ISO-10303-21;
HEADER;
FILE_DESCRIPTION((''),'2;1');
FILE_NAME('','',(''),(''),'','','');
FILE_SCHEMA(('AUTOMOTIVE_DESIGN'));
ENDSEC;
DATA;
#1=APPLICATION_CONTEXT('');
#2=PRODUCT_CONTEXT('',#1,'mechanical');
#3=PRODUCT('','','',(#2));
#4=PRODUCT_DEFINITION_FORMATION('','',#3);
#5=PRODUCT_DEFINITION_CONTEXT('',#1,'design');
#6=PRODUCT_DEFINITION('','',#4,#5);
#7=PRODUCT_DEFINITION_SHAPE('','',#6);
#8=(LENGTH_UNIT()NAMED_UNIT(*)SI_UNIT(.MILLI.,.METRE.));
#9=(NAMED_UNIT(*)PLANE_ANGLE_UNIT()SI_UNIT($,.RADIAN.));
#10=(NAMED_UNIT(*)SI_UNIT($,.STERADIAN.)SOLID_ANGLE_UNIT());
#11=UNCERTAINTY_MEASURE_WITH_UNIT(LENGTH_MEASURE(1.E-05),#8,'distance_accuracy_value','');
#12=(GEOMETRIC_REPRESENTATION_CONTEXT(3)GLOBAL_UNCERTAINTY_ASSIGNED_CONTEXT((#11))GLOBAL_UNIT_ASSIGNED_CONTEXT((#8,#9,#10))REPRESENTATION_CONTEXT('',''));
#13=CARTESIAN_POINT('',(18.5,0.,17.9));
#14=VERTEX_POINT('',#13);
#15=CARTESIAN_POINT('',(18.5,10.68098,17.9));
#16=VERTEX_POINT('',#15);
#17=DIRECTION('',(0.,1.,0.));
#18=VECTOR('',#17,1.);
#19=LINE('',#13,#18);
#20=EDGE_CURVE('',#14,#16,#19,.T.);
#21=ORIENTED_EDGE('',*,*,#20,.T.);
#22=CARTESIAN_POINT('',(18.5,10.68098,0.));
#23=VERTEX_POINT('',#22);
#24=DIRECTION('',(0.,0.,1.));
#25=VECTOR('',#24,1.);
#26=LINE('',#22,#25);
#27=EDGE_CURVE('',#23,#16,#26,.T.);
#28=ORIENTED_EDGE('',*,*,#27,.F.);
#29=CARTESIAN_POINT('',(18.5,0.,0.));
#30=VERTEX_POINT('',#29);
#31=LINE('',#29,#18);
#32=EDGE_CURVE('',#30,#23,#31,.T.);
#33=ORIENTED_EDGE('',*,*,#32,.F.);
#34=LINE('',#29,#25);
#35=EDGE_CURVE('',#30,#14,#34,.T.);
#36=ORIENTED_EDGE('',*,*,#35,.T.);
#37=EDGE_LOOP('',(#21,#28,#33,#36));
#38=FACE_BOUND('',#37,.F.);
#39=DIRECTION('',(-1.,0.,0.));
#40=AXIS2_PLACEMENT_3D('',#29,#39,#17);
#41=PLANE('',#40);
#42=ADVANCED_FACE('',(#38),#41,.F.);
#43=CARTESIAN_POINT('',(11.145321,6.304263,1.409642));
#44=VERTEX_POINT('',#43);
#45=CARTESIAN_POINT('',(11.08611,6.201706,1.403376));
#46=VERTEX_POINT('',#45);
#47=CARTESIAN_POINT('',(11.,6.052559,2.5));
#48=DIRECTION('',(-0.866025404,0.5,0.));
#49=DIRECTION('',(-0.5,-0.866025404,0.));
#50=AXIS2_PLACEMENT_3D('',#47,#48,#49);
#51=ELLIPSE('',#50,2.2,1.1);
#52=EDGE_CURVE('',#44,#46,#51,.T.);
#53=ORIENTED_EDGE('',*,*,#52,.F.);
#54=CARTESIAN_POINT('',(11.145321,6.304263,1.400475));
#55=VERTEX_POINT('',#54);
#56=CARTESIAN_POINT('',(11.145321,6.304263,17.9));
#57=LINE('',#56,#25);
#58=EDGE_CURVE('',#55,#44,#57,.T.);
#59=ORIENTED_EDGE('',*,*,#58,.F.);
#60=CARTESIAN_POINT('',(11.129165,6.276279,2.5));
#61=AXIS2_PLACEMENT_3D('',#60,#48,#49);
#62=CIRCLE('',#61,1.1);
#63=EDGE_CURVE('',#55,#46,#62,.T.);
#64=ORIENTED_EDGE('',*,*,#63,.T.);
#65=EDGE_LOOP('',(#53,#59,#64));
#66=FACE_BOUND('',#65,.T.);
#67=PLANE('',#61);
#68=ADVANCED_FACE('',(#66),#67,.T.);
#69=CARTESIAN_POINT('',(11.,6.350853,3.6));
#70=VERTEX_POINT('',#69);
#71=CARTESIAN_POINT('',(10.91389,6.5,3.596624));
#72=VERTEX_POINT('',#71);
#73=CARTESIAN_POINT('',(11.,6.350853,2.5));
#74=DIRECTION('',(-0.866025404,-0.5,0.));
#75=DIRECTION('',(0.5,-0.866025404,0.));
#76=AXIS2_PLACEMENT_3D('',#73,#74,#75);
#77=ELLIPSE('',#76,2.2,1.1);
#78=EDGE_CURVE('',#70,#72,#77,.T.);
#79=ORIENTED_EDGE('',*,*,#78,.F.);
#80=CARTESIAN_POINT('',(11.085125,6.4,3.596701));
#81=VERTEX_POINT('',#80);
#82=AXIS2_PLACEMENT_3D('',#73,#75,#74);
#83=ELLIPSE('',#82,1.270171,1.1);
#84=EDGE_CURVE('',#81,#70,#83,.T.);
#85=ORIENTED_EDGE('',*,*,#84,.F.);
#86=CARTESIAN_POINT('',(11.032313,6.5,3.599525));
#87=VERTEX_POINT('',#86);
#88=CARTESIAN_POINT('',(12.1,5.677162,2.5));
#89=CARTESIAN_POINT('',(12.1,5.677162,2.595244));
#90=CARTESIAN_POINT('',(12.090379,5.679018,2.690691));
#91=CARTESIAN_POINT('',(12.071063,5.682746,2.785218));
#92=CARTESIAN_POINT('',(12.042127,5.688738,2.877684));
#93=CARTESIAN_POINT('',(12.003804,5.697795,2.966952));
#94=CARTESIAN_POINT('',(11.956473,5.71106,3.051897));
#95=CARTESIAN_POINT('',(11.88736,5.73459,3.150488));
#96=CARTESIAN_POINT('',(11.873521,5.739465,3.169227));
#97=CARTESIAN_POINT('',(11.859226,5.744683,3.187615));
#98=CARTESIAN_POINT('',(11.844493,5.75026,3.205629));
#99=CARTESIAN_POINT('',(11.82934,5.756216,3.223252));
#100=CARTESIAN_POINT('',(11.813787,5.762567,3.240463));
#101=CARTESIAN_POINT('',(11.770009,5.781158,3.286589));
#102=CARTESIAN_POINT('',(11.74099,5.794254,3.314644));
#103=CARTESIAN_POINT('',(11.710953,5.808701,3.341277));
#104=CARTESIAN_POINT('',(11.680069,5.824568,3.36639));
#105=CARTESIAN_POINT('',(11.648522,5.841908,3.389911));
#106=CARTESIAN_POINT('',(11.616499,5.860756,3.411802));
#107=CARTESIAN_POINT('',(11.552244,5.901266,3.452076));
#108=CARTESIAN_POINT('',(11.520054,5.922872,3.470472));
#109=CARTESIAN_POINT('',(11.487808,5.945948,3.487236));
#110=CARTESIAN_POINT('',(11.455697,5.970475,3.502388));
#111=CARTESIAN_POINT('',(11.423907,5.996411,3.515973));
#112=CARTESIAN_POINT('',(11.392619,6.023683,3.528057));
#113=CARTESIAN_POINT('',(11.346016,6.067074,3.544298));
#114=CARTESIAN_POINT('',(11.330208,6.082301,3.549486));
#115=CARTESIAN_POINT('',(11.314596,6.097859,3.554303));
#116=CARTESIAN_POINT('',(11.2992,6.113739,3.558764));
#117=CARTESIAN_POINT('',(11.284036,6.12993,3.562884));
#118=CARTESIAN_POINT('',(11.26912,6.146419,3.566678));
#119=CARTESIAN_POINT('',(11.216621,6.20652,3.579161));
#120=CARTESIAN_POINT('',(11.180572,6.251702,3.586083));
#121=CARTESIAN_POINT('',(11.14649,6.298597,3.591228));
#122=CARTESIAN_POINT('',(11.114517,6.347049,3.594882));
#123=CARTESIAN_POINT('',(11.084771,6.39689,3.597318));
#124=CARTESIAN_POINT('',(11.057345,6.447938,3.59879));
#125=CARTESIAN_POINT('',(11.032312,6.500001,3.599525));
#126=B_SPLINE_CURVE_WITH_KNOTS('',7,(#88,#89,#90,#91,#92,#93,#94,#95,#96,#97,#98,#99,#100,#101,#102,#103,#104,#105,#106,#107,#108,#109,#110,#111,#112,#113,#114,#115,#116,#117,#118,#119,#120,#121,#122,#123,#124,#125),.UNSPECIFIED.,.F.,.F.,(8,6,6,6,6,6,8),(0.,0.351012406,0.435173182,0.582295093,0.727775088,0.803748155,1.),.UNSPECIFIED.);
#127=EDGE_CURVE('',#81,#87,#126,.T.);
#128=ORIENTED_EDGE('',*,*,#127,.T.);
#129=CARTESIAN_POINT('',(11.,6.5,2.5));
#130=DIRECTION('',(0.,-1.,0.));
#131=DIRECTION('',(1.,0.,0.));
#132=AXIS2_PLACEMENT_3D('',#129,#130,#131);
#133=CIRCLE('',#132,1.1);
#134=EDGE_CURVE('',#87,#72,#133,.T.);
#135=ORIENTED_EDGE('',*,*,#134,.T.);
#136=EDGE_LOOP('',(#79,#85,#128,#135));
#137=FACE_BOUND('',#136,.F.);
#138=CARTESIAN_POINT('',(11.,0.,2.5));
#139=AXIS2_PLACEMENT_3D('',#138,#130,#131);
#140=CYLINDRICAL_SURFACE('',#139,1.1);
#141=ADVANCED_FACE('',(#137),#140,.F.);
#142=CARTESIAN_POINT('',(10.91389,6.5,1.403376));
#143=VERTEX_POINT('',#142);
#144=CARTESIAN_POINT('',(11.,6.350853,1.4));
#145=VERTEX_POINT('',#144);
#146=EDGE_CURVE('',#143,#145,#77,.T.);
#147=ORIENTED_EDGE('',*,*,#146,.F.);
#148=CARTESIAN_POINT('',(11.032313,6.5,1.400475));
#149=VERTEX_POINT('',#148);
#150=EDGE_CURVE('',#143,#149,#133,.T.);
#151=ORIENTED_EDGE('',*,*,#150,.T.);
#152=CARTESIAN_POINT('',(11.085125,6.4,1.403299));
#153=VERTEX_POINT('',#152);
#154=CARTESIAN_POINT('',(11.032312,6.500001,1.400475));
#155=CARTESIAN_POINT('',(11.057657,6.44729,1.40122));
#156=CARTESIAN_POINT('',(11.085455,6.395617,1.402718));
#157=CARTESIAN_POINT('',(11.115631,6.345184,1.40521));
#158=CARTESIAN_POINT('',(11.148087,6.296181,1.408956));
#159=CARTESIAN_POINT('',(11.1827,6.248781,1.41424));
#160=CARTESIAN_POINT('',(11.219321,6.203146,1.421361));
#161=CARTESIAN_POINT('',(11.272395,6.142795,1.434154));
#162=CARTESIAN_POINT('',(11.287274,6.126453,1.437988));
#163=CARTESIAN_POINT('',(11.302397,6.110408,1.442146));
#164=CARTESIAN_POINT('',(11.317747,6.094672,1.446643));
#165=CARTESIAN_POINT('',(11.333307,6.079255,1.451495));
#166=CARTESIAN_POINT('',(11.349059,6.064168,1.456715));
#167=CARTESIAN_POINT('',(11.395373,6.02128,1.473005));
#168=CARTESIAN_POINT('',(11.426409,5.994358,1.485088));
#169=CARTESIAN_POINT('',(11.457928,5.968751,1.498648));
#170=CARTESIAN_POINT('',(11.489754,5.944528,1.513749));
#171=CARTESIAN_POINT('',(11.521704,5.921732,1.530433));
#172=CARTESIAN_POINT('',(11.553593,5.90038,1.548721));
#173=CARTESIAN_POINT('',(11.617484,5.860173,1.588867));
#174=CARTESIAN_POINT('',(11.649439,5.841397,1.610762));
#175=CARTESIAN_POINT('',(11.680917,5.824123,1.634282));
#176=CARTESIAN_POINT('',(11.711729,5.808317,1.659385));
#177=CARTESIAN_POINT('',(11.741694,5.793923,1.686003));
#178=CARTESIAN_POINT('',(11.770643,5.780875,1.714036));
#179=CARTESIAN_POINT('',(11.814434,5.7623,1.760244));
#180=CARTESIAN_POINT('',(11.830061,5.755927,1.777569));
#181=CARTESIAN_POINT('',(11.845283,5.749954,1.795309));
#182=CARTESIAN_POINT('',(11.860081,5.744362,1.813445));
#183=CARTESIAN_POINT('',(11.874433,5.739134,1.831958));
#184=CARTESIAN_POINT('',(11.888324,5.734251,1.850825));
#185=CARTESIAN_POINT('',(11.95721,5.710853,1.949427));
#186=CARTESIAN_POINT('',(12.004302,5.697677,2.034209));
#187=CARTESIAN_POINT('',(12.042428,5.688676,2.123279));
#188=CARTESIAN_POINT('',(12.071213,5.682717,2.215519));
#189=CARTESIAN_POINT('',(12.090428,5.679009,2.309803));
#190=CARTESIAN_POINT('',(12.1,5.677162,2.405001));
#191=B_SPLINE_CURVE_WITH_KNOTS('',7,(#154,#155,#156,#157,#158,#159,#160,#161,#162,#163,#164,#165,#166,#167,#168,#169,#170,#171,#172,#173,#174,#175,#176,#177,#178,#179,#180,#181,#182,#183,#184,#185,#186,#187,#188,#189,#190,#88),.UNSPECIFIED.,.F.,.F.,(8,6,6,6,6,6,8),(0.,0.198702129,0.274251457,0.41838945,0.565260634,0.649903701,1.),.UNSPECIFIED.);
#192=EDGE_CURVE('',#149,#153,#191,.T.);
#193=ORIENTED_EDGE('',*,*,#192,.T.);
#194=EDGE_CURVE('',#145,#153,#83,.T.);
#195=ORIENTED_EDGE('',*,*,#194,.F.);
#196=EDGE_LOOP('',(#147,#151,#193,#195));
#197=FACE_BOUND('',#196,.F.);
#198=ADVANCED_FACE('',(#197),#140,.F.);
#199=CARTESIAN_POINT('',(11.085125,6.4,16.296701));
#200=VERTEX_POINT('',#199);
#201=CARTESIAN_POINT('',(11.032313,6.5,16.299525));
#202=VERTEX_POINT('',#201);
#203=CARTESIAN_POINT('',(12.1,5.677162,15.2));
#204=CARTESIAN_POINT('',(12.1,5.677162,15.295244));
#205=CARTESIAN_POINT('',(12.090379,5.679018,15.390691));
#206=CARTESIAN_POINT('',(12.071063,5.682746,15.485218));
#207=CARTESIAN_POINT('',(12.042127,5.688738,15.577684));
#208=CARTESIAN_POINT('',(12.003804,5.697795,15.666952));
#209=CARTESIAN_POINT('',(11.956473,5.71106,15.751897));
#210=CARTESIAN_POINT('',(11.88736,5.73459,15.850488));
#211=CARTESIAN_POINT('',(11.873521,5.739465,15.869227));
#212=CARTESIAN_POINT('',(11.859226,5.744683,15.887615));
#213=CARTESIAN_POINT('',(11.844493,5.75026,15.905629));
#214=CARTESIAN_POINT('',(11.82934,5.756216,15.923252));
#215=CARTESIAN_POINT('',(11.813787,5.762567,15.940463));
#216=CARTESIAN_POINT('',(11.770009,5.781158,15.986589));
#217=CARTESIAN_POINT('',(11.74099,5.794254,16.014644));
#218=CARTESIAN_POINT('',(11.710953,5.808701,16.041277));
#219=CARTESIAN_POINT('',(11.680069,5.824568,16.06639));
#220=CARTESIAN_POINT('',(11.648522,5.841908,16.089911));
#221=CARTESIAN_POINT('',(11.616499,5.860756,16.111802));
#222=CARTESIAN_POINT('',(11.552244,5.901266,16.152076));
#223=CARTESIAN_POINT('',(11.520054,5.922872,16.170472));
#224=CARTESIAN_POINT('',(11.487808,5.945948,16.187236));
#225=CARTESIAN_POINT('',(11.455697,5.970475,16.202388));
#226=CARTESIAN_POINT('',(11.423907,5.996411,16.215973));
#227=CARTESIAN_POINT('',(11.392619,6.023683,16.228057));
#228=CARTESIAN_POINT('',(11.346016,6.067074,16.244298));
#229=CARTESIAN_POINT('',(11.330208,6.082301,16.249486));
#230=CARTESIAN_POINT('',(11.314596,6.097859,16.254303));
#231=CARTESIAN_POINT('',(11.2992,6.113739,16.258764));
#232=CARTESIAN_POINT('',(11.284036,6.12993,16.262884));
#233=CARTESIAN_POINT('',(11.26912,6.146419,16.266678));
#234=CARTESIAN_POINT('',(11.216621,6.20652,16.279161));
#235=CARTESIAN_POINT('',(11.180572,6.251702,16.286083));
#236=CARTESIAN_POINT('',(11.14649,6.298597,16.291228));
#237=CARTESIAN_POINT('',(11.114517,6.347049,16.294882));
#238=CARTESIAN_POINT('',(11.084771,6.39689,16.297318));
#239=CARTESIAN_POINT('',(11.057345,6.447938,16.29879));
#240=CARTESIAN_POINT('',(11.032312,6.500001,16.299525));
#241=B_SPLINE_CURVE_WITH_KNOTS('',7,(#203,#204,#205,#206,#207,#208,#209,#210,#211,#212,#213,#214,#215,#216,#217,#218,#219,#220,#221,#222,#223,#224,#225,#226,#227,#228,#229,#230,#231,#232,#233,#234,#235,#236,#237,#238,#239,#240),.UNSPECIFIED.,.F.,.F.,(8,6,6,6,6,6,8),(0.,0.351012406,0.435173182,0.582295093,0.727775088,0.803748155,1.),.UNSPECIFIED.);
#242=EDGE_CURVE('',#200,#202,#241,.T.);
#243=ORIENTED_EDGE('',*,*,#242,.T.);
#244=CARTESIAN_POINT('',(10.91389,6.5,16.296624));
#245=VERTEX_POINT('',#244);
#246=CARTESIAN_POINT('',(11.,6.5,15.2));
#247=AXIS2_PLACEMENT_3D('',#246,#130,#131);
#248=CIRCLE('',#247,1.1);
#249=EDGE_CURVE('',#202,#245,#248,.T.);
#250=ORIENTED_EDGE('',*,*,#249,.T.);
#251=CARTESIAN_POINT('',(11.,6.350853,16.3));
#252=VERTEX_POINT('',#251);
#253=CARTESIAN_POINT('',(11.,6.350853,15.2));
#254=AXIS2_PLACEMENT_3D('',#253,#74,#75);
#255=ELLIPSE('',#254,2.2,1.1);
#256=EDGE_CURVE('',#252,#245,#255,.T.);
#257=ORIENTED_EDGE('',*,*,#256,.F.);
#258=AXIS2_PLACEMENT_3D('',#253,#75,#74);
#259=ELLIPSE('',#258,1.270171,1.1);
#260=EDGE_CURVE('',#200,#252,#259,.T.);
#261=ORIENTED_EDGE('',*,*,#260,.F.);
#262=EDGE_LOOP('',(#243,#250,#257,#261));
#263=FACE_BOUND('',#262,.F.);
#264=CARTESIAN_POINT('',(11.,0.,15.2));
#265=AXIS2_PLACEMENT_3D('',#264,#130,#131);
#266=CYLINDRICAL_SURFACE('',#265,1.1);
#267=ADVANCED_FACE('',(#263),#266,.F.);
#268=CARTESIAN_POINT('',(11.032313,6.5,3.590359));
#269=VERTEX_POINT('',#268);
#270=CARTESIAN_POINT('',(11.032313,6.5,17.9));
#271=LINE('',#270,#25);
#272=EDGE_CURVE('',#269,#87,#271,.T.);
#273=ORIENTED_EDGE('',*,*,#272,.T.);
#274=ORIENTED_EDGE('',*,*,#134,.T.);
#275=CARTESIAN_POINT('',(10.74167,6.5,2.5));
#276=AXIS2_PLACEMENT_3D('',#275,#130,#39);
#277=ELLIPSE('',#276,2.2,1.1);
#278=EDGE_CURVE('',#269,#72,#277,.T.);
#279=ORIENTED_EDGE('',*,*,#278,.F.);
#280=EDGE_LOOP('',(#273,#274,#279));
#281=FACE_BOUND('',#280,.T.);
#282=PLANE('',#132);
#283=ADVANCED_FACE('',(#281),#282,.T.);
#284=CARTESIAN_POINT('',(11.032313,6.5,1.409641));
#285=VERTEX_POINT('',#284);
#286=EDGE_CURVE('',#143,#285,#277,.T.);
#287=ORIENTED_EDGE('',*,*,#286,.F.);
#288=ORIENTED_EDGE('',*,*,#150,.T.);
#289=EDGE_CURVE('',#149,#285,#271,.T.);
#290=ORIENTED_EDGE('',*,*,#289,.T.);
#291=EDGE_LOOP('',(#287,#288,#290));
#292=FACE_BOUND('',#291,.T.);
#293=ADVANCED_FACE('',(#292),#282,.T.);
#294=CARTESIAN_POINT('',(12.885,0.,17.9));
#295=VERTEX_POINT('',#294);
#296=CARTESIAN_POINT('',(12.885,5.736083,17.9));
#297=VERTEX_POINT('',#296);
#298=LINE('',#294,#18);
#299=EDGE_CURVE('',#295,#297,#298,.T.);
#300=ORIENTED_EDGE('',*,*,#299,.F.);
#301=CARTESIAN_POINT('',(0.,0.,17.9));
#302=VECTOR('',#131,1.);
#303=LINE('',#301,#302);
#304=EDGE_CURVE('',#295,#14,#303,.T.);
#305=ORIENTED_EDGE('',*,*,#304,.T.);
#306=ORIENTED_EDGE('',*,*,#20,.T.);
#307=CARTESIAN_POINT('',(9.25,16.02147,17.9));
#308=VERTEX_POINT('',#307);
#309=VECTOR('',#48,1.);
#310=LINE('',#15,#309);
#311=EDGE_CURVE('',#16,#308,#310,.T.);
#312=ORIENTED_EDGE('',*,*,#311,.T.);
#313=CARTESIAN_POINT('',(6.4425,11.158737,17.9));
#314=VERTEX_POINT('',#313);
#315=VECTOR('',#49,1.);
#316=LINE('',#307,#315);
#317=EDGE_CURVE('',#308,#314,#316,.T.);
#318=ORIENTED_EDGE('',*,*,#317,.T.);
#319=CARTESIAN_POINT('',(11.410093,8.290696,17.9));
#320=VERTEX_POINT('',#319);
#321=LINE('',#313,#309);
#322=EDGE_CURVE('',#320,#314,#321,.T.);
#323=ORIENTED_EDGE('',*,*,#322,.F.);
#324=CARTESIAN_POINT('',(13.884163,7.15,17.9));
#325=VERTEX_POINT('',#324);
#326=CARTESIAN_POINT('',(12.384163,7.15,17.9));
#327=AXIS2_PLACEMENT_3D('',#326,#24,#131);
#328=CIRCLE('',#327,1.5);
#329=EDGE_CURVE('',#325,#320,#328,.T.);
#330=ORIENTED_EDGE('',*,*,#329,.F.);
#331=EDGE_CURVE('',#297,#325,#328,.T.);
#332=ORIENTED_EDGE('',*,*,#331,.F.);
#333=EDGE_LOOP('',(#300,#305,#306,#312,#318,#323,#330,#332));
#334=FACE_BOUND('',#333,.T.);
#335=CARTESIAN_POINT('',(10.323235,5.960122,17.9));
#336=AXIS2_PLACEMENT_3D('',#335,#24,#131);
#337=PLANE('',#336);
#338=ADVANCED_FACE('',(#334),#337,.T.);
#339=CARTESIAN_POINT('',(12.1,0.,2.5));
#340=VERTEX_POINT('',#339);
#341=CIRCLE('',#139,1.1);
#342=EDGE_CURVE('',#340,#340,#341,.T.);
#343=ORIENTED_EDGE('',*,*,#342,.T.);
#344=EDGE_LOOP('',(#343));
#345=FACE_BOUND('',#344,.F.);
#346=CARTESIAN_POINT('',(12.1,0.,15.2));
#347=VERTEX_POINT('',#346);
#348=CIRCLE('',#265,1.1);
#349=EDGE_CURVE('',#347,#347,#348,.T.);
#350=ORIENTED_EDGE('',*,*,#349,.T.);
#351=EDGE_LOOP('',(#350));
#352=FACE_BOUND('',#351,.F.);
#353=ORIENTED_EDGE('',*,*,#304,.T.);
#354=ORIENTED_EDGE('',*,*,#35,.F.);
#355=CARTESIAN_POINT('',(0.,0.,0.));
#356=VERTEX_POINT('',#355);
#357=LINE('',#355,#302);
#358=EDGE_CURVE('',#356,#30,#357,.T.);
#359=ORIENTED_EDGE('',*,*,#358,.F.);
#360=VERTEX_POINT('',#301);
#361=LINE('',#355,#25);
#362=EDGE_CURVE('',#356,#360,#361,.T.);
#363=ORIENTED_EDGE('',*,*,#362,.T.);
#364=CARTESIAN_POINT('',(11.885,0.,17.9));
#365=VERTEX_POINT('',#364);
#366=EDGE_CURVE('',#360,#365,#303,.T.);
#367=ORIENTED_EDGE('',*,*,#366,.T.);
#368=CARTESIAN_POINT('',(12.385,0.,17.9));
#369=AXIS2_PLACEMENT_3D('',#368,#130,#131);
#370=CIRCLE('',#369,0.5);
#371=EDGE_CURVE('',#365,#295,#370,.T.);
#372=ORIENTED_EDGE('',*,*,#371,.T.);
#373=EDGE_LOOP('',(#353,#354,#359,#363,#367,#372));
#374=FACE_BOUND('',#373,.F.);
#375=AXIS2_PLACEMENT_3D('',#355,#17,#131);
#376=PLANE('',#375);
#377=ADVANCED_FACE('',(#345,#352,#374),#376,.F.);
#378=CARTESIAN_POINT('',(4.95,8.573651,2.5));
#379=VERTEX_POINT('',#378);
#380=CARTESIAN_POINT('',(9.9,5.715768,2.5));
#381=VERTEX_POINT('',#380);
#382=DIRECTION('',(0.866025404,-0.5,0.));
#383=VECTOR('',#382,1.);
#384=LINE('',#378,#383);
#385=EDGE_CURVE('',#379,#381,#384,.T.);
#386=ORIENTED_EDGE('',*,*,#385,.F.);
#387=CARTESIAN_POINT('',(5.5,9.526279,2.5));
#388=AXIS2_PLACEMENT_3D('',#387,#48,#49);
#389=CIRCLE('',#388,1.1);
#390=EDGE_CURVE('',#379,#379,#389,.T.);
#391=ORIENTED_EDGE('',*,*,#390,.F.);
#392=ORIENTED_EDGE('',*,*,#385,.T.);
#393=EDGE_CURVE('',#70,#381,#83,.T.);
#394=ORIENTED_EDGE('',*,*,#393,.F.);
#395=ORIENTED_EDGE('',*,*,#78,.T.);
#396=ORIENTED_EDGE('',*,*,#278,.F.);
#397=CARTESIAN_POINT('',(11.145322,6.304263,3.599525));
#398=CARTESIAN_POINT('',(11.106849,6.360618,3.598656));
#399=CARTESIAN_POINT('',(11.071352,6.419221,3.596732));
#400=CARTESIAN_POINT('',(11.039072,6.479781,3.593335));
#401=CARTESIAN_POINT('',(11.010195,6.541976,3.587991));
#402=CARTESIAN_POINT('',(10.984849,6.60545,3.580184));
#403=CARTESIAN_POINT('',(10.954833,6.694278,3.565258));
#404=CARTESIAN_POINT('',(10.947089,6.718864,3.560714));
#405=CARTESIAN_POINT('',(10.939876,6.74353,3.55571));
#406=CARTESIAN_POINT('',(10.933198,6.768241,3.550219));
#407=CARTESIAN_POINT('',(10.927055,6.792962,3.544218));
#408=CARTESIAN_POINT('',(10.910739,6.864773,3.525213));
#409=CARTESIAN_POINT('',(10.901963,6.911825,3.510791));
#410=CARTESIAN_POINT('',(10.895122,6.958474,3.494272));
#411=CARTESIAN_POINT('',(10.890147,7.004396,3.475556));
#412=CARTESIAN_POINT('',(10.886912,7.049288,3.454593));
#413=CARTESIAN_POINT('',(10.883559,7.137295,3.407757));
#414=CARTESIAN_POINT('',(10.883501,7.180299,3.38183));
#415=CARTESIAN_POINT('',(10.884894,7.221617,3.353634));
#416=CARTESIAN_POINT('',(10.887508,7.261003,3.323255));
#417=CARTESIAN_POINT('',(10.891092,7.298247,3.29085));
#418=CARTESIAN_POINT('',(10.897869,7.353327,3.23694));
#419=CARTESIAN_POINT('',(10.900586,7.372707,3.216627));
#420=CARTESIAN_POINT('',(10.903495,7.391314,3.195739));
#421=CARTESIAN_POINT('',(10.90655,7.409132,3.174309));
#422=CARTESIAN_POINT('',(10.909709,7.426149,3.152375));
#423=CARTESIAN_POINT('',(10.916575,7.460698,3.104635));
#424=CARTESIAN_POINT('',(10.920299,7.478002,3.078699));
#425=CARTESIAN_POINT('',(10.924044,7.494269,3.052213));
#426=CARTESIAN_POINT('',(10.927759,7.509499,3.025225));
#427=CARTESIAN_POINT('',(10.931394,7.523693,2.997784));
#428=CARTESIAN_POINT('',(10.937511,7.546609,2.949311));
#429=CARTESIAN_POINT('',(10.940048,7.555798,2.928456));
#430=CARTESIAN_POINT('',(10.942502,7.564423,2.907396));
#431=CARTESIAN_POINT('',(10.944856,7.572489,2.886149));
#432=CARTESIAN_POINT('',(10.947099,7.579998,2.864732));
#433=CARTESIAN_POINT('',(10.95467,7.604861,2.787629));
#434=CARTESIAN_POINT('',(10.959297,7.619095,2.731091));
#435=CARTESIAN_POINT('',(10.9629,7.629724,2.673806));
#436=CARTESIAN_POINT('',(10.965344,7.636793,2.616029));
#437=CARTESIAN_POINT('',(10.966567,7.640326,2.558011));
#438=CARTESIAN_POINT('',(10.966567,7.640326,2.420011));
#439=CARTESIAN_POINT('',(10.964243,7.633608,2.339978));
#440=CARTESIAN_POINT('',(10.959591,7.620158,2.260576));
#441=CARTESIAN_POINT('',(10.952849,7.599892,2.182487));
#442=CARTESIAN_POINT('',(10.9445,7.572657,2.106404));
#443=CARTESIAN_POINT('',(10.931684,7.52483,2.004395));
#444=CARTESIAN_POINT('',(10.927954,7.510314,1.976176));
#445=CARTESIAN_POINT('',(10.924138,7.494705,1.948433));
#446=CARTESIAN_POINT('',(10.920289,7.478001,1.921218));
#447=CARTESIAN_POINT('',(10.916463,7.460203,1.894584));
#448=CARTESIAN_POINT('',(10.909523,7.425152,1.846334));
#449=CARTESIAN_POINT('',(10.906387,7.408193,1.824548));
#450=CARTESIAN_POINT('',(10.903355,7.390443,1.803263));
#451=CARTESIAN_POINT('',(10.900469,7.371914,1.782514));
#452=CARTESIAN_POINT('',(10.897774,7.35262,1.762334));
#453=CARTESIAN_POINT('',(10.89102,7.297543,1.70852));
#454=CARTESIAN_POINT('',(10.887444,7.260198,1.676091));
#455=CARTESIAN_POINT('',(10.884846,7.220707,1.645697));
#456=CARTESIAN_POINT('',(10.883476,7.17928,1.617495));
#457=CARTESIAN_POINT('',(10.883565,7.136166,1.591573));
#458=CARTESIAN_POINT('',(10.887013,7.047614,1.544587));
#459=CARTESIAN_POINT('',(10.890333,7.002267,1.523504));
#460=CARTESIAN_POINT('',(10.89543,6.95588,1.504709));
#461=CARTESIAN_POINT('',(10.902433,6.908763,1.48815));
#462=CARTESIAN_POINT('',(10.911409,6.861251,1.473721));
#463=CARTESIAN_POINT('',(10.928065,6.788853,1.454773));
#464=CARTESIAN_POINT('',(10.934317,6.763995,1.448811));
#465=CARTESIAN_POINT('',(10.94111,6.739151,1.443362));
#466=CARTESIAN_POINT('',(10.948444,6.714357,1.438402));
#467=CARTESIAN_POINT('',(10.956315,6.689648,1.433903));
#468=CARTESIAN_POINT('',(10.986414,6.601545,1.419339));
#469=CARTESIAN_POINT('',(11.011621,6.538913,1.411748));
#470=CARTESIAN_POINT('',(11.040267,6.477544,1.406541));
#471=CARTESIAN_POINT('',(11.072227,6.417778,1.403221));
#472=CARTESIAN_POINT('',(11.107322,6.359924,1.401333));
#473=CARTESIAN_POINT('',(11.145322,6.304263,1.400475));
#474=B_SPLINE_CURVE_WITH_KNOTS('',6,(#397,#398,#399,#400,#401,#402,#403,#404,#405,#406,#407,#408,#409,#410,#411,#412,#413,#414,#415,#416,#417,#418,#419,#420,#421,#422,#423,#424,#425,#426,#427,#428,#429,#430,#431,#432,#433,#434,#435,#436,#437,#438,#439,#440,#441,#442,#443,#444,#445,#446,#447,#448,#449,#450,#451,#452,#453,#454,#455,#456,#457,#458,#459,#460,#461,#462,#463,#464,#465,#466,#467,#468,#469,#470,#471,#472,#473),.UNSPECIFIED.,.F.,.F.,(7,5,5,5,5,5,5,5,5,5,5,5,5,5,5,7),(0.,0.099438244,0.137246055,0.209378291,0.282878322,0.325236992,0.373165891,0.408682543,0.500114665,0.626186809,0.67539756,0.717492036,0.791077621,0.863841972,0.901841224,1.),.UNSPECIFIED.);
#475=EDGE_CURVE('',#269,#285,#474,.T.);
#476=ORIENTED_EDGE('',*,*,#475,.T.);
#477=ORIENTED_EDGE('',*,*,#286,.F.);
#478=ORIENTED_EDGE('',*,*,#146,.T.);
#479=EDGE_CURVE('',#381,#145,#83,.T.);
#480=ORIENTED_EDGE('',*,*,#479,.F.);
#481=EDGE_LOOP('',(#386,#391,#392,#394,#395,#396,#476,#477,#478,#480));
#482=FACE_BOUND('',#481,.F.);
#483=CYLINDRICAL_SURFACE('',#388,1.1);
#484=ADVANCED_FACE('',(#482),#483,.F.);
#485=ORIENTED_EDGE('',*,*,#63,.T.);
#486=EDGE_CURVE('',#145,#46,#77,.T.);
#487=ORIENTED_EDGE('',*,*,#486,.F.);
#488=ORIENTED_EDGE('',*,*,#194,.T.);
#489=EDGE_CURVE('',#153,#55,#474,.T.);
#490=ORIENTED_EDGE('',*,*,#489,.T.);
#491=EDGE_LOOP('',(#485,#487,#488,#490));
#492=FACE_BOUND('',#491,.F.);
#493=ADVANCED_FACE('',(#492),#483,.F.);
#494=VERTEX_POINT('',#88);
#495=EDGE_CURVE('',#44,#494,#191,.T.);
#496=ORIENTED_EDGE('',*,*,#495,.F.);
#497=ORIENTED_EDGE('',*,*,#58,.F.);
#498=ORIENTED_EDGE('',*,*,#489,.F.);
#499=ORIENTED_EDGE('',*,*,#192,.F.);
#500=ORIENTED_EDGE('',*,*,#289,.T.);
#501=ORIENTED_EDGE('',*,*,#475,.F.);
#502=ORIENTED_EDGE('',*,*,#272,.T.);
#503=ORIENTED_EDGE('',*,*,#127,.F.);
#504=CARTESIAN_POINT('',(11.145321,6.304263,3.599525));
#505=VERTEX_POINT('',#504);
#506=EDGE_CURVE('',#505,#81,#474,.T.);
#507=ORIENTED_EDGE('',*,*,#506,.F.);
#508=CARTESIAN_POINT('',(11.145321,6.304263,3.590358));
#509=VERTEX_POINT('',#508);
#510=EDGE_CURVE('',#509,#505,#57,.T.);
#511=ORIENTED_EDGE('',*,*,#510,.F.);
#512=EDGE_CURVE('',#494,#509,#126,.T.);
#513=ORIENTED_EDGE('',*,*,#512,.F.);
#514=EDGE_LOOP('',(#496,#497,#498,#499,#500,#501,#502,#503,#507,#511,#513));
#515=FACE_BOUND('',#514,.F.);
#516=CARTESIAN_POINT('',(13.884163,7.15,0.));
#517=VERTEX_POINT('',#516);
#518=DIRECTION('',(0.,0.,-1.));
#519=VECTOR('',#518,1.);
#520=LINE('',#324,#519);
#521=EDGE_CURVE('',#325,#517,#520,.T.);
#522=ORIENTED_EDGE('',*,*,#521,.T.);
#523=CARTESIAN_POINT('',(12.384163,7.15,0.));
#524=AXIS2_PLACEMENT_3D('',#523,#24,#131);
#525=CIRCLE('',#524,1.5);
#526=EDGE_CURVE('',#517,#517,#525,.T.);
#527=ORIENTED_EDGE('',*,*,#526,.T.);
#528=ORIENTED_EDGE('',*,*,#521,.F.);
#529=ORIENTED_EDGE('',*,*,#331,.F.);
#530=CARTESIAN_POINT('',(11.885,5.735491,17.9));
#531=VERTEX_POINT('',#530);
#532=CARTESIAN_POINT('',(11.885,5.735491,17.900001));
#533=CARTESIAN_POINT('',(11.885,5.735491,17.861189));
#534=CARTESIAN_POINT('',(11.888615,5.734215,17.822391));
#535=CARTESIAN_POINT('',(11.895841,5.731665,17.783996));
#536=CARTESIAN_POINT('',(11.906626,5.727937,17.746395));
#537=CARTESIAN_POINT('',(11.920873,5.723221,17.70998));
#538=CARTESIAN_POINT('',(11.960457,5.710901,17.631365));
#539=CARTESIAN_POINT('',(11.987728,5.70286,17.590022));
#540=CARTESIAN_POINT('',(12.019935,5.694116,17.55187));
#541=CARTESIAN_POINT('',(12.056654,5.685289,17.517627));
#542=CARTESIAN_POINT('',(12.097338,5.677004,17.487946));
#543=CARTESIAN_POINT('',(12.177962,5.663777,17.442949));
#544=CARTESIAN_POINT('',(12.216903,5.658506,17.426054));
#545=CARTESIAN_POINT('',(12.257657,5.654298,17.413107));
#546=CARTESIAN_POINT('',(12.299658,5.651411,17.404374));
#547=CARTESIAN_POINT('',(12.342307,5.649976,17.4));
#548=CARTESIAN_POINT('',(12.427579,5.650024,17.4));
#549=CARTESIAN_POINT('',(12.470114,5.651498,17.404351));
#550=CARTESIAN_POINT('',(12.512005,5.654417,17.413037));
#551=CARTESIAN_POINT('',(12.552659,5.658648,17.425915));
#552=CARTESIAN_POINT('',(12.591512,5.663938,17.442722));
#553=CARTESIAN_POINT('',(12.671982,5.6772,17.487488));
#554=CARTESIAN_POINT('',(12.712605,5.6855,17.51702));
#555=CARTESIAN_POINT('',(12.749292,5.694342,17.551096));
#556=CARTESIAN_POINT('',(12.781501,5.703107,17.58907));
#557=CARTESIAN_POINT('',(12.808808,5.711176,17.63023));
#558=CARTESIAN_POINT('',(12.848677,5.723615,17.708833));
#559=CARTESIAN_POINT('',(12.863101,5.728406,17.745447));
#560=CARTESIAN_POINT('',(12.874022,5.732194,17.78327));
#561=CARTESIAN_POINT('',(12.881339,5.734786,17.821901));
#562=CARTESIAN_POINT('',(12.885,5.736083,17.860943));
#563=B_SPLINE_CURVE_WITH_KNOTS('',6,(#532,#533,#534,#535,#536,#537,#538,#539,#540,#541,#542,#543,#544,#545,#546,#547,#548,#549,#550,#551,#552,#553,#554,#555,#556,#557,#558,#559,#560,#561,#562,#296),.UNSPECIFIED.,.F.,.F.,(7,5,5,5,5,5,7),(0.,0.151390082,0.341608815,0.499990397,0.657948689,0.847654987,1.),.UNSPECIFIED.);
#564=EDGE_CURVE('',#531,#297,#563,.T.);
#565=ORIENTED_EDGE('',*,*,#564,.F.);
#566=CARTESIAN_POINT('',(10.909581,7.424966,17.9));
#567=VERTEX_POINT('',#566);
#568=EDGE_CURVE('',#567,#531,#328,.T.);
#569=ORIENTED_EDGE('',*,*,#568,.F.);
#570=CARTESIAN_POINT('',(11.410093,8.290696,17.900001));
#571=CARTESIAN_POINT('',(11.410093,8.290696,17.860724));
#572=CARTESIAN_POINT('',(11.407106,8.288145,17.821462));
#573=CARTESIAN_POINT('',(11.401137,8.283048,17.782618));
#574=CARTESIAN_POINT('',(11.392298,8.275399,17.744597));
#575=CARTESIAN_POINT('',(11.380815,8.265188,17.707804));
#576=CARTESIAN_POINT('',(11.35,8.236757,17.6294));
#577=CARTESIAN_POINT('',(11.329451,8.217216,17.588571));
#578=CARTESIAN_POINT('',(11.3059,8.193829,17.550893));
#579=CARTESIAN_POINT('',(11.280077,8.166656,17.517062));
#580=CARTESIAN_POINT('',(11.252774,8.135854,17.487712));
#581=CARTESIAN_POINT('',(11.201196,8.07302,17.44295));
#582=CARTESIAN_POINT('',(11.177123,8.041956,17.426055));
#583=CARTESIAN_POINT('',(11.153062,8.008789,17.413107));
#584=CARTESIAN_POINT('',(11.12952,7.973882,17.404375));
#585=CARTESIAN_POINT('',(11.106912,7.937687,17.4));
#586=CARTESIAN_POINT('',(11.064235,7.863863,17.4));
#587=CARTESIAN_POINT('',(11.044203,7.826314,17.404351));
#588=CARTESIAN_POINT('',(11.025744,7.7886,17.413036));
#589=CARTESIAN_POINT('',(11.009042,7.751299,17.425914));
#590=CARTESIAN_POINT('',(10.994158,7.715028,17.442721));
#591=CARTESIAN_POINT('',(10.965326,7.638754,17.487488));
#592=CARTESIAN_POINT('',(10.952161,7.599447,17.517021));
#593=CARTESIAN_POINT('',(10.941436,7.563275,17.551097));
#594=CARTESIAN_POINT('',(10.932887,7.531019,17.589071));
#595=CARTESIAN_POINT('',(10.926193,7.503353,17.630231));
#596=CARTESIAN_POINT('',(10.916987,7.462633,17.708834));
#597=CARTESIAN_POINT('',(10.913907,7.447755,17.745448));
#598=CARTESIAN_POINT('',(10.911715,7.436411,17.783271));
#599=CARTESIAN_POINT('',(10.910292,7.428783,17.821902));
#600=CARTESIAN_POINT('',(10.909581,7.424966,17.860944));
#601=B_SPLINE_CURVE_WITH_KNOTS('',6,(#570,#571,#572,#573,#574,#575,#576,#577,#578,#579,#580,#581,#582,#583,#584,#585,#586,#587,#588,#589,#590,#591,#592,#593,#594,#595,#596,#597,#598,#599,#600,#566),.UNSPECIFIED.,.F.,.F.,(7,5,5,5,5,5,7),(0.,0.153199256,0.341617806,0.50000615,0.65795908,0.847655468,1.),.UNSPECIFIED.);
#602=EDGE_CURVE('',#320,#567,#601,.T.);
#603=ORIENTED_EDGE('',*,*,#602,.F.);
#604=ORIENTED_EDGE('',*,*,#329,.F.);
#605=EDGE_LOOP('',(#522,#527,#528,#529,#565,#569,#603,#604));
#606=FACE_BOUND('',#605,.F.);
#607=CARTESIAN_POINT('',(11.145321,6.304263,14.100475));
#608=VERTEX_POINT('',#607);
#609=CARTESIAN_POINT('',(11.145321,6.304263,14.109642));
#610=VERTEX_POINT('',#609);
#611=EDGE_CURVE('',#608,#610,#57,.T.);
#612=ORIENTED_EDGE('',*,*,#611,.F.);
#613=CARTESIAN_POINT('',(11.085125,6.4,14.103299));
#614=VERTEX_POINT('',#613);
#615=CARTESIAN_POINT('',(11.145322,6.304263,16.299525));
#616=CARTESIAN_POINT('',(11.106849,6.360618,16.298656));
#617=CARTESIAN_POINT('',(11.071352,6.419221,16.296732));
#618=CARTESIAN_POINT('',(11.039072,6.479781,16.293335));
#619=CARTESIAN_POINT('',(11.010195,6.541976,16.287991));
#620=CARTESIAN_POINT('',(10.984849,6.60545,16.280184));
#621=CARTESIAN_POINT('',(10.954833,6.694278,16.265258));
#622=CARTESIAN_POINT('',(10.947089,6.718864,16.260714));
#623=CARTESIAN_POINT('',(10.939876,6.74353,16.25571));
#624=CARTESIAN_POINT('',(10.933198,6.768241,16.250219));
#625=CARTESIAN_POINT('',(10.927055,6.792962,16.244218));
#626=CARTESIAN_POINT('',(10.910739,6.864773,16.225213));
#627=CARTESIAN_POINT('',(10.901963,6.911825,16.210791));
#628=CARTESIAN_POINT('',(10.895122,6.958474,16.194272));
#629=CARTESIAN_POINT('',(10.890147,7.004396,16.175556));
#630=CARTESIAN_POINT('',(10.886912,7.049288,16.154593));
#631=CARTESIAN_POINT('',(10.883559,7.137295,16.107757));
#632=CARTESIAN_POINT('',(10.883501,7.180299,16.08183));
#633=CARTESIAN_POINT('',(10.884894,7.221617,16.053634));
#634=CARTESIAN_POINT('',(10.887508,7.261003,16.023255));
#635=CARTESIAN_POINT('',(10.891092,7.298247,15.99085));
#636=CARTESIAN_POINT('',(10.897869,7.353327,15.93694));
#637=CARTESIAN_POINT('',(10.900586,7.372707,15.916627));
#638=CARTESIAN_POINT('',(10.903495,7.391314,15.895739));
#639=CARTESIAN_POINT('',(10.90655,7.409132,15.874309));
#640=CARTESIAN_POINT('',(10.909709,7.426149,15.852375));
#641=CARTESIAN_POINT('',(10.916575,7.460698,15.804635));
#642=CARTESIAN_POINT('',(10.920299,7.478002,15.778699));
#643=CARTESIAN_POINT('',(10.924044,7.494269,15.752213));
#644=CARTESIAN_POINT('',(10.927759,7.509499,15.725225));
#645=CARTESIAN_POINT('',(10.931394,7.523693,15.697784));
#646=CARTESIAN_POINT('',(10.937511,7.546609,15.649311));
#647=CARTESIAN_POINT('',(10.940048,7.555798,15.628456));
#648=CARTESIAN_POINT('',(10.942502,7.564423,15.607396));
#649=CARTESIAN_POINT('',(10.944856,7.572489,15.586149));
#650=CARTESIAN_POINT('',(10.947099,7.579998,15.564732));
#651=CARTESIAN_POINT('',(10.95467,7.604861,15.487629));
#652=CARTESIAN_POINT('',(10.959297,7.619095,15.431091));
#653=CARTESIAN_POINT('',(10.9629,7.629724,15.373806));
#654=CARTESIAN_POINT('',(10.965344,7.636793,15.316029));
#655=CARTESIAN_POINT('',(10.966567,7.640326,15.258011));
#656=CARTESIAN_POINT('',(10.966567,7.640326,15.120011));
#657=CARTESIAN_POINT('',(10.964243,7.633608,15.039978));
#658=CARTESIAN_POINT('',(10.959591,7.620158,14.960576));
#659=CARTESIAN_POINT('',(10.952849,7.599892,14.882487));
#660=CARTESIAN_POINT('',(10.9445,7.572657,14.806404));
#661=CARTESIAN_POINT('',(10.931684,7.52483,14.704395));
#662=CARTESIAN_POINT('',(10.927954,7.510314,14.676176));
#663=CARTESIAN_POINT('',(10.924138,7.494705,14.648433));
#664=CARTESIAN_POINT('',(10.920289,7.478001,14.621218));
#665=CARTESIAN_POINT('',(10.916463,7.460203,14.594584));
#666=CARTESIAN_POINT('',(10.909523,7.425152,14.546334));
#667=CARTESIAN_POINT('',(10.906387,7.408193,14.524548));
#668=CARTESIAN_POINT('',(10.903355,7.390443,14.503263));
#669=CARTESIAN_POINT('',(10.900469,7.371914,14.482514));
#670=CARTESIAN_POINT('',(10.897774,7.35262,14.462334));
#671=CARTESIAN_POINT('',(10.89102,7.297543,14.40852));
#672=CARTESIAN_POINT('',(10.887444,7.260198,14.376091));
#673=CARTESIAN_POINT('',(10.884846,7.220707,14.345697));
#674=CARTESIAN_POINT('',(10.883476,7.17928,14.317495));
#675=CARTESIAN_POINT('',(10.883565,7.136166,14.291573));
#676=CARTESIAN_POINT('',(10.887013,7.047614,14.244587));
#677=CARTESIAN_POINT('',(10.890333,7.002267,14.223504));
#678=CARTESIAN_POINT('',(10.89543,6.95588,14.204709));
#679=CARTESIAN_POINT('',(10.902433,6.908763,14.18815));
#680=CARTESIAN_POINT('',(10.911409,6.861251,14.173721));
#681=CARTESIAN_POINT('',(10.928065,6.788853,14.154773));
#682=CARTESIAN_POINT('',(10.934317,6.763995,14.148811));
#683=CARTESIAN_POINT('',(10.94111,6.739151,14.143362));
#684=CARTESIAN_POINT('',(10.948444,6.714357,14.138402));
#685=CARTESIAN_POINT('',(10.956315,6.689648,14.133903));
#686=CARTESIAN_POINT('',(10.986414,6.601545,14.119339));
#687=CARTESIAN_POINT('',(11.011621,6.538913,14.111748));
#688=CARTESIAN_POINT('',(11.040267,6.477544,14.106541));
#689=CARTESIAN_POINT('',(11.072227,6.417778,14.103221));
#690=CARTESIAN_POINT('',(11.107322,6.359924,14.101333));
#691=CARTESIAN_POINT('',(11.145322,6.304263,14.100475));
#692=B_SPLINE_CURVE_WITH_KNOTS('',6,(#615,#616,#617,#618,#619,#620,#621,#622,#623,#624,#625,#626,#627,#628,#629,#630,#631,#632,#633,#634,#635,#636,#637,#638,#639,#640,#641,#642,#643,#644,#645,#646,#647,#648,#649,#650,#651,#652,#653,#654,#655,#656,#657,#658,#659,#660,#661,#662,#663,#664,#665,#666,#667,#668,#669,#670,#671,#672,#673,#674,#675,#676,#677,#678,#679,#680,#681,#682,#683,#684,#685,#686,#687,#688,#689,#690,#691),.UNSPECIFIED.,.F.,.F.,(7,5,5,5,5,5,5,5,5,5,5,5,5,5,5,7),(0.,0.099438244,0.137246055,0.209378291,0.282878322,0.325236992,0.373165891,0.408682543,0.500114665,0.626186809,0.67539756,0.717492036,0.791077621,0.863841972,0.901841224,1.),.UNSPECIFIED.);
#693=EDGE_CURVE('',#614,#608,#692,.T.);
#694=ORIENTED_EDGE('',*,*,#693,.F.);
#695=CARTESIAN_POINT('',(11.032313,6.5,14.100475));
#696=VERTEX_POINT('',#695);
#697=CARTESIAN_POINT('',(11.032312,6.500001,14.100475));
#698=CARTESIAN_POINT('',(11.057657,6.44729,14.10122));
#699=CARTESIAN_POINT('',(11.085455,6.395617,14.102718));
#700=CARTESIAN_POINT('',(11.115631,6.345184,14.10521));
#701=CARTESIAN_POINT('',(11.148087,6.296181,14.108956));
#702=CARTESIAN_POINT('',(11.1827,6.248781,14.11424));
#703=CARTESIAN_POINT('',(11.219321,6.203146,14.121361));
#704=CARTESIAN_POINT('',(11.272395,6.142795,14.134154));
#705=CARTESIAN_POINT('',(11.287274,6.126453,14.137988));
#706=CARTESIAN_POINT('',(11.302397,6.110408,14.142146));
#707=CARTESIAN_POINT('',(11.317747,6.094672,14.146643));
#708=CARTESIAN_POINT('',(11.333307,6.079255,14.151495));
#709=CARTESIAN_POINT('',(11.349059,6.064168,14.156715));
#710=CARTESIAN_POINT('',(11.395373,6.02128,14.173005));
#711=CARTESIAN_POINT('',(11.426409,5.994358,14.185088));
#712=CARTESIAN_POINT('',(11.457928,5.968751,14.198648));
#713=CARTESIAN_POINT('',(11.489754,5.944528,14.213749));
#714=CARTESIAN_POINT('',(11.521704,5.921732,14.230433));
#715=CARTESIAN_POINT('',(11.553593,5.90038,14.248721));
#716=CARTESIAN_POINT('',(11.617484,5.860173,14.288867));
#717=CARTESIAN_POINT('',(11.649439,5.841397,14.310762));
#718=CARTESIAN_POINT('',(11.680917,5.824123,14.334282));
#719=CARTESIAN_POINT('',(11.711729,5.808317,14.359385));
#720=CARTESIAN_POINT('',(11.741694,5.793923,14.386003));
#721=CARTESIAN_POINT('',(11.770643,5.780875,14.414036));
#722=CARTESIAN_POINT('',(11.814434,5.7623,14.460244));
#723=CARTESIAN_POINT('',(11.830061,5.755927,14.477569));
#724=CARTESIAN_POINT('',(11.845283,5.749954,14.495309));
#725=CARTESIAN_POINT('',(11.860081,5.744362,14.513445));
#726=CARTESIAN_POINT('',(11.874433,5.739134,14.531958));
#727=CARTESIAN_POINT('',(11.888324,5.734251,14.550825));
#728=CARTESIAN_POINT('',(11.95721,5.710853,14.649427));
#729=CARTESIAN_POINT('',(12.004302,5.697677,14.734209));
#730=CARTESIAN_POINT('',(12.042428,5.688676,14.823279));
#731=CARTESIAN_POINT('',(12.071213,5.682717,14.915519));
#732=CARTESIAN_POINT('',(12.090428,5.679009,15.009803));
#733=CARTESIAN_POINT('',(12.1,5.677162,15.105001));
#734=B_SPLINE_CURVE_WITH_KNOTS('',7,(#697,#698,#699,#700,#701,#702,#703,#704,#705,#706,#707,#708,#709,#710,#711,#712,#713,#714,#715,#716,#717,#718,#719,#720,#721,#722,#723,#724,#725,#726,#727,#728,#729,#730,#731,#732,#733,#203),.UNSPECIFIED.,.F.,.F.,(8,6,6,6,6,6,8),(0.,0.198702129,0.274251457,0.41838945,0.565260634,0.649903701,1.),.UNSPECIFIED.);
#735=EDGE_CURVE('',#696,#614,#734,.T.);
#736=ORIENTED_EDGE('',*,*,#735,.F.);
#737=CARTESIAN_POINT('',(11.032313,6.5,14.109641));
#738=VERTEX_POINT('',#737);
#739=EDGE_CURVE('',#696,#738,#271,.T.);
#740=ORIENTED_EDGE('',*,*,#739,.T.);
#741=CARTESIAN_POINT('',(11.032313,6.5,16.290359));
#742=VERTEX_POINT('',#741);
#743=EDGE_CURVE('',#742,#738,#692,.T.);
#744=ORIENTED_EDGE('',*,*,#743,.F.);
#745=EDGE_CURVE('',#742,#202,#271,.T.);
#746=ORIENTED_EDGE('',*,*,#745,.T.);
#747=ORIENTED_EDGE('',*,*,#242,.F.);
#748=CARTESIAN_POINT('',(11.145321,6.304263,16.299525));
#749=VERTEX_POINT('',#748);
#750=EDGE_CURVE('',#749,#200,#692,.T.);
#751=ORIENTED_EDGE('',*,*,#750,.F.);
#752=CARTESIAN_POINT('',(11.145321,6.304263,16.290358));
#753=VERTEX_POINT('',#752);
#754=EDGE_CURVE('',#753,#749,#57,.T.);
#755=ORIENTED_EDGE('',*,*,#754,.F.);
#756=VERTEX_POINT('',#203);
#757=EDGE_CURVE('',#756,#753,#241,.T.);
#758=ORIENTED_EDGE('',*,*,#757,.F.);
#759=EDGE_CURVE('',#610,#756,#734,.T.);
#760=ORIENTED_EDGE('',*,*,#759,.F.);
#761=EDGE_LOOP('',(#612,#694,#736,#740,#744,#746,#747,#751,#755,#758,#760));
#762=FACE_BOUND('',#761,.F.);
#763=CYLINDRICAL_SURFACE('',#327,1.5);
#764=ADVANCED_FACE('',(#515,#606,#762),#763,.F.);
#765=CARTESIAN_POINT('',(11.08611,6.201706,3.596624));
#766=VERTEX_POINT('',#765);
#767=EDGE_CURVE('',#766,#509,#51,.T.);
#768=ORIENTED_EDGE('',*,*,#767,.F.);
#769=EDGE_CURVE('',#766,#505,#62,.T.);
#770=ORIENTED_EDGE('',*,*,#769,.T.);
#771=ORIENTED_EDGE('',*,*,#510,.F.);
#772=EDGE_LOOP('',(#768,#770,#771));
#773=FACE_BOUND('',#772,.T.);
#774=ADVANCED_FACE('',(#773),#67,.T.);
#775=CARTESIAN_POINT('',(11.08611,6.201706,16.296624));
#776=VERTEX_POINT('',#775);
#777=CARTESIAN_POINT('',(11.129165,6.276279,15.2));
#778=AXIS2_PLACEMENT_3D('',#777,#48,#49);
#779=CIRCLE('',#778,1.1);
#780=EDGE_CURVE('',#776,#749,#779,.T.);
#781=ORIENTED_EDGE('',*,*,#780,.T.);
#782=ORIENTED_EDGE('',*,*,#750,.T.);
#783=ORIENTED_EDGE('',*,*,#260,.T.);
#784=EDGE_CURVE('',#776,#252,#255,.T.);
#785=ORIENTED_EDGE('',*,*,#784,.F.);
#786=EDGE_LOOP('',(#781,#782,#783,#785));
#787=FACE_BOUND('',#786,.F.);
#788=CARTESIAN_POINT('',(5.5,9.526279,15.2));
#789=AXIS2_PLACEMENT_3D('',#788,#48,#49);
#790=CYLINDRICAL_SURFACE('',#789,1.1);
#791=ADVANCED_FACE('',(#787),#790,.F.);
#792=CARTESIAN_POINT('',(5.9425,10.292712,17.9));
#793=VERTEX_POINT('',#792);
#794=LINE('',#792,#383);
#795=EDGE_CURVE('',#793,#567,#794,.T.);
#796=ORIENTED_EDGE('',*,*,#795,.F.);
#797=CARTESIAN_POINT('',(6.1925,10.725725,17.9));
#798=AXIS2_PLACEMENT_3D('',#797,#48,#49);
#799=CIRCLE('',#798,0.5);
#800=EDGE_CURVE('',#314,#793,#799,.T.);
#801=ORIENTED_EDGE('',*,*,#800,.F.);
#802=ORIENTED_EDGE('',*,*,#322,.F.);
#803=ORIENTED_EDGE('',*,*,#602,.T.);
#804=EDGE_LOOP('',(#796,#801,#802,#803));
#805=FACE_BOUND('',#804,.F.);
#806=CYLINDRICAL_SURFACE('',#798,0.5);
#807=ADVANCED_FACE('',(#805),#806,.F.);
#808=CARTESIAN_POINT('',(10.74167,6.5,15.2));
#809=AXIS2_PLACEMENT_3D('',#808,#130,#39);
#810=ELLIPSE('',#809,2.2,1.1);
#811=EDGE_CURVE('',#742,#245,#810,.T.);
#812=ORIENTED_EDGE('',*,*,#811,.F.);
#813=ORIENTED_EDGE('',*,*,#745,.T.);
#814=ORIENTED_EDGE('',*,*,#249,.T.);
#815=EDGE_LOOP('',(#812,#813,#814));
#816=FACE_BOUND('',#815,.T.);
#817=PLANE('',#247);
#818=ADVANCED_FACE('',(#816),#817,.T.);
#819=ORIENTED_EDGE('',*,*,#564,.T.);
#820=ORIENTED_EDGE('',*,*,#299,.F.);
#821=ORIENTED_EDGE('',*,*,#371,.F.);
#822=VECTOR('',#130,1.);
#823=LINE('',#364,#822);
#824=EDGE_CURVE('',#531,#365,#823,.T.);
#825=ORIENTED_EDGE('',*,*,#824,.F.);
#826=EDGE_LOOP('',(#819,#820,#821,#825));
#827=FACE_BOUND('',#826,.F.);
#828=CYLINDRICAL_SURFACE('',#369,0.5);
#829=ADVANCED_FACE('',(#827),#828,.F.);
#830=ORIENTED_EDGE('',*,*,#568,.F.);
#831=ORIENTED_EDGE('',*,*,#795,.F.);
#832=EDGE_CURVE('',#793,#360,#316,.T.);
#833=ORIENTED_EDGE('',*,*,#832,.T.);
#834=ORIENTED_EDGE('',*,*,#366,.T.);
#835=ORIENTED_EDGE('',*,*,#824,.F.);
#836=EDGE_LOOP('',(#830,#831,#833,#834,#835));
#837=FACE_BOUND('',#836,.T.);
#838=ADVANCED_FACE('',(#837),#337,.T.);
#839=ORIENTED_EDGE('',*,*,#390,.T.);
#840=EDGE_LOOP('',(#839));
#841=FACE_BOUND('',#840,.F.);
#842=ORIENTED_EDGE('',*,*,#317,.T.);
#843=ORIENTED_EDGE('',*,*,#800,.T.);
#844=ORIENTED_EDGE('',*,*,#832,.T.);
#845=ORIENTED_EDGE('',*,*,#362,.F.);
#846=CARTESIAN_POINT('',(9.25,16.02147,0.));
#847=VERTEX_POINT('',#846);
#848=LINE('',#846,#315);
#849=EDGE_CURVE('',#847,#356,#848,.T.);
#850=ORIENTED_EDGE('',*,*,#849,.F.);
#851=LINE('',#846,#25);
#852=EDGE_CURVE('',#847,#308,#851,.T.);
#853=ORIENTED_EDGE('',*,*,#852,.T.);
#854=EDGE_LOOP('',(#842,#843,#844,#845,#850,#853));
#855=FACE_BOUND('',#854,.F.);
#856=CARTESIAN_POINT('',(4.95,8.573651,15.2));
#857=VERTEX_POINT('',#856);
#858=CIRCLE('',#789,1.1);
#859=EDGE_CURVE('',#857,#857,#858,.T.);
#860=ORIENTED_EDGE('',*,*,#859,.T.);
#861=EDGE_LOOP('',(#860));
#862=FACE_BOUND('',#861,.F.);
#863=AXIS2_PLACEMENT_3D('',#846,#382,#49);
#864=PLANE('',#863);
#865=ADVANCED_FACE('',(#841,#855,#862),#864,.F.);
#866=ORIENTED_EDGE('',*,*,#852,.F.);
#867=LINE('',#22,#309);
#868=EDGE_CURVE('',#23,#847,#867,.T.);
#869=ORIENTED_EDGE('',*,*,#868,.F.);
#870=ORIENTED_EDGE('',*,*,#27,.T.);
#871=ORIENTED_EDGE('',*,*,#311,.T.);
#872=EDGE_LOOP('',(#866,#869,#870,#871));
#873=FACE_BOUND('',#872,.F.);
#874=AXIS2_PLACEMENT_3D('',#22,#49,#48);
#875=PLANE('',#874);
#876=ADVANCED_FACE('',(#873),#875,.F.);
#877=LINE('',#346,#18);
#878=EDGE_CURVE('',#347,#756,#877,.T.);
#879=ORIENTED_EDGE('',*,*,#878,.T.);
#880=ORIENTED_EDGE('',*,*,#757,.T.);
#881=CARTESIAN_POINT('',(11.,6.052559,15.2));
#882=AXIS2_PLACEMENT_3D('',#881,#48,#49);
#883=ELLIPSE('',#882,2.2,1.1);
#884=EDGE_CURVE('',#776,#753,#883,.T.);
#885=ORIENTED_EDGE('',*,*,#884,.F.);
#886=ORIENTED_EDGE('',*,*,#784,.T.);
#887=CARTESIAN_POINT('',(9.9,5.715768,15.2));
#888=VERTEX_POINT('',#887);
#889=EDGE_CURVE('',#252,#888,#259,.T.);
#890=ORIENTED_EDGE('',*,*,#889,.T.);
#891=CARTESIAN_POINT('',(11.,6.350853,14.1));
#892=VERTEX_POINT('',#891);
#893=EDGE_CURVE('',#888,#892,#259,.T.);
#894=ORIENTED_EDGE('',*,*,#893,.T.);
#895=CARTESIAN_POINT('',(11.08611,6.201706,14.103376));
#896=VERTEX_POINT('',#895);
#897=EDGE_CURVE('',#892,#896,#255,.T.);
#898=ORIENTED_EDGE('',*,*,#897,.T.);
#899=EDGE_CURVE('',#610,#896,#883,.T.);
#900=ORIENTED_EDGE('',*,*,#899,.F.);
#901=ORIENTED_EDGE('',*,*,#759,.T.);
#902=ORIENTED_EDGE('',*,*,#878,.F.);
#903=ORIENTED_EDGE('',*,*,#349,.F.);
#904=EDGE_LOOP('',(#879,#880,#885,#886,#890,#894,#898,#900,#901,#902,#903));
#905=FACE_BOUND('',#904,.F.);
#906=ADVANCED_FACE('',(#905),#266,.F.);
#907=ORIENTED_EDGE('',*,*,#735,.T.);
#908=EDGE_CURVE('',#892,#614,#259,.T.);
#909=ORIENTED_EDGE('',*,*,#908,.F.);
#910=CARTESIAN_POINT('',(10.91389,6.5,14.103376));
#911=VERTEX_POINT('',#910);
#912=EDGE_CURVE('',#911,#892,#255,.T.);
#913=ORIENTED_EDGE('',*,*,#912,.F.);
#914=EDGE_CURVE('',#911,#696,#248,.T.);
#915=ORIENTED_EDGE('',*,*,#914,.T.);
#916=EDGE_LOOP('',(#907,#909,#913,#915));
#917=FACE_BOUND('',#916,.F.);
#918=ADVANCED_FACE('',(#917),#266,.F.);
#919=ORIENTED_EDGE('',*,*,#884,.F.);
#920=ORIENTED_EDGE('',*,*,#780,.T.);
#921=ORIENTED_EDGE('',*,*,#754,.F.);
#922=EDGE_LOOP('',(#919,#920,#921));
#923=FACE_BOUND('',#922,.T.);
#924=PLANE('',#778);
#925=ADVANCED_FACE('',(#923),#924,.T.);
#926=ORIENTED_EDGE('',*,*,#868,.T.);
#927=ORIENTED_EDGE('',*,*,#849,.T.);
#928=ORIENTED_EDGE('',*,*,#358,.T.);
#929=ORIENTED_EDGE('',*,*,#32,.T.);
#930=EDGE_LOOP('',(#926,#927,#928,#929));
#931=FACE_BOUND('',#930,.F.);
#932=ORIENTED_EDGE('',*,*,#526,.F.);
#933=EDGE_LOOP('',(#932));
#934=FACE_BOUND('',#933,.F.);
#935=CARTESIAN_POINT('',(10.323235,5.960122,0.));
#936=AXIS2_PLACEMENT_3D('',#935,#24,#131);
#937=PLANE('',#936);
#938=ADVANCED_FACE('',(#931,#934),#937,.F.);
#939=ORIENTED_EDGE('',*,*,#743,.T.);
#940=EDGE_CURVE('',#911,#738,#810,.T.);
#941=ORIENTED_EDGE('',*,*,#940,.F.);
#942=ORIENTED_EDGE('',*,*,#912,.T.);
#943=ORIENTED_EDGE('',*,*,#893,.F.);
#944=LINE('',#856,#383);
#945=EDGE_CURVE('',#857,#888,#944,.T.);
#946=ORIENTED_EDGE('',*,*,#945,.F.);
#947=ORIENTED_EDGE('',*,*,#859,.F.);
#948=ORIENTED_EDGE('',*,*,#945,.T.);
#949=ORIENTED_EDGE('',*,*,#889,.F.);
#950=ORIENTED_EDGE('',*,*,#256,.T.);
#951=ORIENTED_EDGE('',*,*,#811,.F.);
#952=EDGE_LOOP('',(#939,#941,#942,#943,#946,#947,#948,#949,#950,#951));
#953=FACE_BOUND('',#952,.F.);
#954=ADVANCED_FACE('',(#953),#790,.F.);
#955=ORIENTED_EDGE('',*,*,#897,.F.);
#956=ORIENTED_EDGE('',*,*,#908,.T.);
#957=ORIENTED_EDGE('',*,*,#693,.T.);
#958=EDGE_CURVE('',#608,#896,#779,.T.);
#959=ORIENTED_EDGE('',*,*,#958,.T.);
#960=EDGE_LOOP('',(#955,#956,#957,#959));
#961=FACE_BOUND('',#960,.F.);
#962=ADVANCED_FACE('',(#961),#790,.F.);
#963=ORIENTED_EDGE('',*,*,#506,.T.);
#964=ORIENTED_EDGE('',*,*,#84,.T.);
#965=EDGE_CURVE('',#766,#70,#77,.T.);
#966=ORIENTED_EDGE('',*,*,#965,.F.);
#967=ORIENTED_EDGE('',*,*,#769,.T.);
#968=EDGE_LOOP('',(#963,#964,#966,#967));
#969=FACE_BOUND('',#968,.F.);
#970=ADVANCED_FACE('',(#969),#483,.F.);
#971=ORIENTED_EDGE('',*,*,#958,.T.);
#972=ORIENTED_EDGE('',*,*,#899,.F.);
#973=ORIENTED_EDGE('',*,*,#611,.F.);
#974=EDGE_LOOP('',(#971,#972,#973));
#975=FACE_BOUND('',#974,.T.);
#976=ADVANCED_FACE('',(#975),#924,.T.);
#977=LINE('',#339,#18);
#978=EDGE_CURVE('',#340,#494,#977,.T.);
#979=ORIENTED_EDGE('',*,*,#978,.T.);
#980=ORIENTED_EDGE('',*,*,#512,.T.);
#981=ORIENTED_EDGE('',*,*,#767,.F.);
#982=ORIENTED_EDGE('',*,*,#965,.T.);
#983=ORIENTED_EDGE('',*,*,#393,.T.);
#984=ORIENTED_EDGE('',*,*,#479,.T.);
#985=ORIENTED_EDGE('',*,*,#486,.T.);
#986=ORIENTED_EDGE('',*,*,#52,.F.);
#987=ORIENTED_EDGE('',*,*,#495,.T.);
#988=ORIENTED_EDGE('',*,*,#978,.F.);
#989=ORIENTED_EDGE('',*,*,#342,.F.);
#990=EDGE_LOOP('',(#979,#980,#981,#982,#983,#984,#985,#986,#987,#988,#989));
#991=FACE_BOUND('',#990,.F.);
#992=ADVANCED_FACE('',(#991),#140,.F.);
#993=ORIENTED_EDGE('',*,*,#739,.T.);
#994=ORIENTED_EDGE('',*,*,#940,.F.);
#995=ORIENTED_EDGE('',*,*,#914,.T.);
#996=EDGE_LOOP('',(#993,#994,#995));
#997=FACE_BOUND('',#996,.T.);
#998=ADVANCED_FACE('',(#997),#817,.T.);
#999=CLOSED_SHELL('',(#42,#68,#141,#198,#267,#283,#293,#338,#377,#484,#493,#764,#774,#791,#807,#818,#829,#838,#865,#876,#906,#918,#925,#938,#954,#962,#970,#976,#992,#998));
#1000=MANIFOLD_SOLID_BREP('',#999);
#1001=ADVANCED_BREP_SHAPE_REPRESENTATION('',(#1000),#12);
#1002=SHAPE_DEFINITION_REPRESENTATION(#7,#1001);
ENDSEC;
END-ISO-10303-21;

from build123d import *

# Parameters (mm, degrees)
PAD_DEPTH       = 17.9
SKETCH001_R     = 1.5
POCKET_DEPTH    = 17.9
SKETCH003_R     = 0.5
POCKET001_DEPTH = 6
SKETCH004_R     = 0.5
POCKET002_DEPTH = 6
SKETCH005_R     = 1.1
POCKET003_DEPTH = 6.5
SKETCH006_R     = 1.1
POCKET004_DEPTH = 6.5


with BuildPart() as part:
    # Sketch → Pad (new body)
    with BuildSketch(Plane.XY):
        Polygon((0, 0), (18.5, 0), (18.5, 10.68097998), (9.25, 16.02146997), align=None)
    extrude(amount=PAD_DEPTH)

    # Sketch001 → Pocket (cut)
    with BuildSketch(Plane.XY.offset(17.9)):
        with Locations((12.3841632741, 7.15)):
            Circle(SKETCH001_R)
    extrude(amount=-POCKET_DEPTH, mode=Mode.SUBTRACT)

    # Sketch003 → Pocket001 (cut)
    with BuildSketch(Plane.XZ):
        with Locations((12.385, 17.9)):
            Circle(SKETCH003_R)
    extrude(amount=-POCKET001_DEPTH, mode=Mode.SUBTRACT)

    # Sketch004 → Pocket002 (cut)
    with BuildSketch(Plane(origin=(0, 0, 0), x_dir=(-0.5, -0.8660254038, 0), z_dir=(-0.8660254038, 0.5, 0))):
        with Locations((-12.385, 17.9)):
            Circle(SKETCH004_R)
    extrude(amount=-POCKET002_DEPTH, mode=Mode.SUBTRACT)

    # Sketch005 → Pocket003 (cut)
    with BuildSketch(Plane.XZ):
        with Locations((11, 15.2)):
            Circle(SKETCH005_R)
        with Locations((11, 2.5)):
            Circle(SKETCH005_R)
    extrude(amount=-POCKET003_DEPTH, mode=Mode.SUBTRACT)

    # Sketch006 → Pocket004 (cut)
    with BuildSketch(Plane(origin=(0, 0, 0), x_dir=(-0.5, -0.8660254038, 0), z_dir=(-0.8660254038, 0.5, 0))):
        with Locations((-11, 15.2)):
            Circle(SKETCH006_R)
        with Locations((-11, 2.5)):
            Circle(SKETCH006_R)
    extrude(amount=-POCKET004_DEPTH, mode=Mode.SUBTRACT)


solid = part.part
